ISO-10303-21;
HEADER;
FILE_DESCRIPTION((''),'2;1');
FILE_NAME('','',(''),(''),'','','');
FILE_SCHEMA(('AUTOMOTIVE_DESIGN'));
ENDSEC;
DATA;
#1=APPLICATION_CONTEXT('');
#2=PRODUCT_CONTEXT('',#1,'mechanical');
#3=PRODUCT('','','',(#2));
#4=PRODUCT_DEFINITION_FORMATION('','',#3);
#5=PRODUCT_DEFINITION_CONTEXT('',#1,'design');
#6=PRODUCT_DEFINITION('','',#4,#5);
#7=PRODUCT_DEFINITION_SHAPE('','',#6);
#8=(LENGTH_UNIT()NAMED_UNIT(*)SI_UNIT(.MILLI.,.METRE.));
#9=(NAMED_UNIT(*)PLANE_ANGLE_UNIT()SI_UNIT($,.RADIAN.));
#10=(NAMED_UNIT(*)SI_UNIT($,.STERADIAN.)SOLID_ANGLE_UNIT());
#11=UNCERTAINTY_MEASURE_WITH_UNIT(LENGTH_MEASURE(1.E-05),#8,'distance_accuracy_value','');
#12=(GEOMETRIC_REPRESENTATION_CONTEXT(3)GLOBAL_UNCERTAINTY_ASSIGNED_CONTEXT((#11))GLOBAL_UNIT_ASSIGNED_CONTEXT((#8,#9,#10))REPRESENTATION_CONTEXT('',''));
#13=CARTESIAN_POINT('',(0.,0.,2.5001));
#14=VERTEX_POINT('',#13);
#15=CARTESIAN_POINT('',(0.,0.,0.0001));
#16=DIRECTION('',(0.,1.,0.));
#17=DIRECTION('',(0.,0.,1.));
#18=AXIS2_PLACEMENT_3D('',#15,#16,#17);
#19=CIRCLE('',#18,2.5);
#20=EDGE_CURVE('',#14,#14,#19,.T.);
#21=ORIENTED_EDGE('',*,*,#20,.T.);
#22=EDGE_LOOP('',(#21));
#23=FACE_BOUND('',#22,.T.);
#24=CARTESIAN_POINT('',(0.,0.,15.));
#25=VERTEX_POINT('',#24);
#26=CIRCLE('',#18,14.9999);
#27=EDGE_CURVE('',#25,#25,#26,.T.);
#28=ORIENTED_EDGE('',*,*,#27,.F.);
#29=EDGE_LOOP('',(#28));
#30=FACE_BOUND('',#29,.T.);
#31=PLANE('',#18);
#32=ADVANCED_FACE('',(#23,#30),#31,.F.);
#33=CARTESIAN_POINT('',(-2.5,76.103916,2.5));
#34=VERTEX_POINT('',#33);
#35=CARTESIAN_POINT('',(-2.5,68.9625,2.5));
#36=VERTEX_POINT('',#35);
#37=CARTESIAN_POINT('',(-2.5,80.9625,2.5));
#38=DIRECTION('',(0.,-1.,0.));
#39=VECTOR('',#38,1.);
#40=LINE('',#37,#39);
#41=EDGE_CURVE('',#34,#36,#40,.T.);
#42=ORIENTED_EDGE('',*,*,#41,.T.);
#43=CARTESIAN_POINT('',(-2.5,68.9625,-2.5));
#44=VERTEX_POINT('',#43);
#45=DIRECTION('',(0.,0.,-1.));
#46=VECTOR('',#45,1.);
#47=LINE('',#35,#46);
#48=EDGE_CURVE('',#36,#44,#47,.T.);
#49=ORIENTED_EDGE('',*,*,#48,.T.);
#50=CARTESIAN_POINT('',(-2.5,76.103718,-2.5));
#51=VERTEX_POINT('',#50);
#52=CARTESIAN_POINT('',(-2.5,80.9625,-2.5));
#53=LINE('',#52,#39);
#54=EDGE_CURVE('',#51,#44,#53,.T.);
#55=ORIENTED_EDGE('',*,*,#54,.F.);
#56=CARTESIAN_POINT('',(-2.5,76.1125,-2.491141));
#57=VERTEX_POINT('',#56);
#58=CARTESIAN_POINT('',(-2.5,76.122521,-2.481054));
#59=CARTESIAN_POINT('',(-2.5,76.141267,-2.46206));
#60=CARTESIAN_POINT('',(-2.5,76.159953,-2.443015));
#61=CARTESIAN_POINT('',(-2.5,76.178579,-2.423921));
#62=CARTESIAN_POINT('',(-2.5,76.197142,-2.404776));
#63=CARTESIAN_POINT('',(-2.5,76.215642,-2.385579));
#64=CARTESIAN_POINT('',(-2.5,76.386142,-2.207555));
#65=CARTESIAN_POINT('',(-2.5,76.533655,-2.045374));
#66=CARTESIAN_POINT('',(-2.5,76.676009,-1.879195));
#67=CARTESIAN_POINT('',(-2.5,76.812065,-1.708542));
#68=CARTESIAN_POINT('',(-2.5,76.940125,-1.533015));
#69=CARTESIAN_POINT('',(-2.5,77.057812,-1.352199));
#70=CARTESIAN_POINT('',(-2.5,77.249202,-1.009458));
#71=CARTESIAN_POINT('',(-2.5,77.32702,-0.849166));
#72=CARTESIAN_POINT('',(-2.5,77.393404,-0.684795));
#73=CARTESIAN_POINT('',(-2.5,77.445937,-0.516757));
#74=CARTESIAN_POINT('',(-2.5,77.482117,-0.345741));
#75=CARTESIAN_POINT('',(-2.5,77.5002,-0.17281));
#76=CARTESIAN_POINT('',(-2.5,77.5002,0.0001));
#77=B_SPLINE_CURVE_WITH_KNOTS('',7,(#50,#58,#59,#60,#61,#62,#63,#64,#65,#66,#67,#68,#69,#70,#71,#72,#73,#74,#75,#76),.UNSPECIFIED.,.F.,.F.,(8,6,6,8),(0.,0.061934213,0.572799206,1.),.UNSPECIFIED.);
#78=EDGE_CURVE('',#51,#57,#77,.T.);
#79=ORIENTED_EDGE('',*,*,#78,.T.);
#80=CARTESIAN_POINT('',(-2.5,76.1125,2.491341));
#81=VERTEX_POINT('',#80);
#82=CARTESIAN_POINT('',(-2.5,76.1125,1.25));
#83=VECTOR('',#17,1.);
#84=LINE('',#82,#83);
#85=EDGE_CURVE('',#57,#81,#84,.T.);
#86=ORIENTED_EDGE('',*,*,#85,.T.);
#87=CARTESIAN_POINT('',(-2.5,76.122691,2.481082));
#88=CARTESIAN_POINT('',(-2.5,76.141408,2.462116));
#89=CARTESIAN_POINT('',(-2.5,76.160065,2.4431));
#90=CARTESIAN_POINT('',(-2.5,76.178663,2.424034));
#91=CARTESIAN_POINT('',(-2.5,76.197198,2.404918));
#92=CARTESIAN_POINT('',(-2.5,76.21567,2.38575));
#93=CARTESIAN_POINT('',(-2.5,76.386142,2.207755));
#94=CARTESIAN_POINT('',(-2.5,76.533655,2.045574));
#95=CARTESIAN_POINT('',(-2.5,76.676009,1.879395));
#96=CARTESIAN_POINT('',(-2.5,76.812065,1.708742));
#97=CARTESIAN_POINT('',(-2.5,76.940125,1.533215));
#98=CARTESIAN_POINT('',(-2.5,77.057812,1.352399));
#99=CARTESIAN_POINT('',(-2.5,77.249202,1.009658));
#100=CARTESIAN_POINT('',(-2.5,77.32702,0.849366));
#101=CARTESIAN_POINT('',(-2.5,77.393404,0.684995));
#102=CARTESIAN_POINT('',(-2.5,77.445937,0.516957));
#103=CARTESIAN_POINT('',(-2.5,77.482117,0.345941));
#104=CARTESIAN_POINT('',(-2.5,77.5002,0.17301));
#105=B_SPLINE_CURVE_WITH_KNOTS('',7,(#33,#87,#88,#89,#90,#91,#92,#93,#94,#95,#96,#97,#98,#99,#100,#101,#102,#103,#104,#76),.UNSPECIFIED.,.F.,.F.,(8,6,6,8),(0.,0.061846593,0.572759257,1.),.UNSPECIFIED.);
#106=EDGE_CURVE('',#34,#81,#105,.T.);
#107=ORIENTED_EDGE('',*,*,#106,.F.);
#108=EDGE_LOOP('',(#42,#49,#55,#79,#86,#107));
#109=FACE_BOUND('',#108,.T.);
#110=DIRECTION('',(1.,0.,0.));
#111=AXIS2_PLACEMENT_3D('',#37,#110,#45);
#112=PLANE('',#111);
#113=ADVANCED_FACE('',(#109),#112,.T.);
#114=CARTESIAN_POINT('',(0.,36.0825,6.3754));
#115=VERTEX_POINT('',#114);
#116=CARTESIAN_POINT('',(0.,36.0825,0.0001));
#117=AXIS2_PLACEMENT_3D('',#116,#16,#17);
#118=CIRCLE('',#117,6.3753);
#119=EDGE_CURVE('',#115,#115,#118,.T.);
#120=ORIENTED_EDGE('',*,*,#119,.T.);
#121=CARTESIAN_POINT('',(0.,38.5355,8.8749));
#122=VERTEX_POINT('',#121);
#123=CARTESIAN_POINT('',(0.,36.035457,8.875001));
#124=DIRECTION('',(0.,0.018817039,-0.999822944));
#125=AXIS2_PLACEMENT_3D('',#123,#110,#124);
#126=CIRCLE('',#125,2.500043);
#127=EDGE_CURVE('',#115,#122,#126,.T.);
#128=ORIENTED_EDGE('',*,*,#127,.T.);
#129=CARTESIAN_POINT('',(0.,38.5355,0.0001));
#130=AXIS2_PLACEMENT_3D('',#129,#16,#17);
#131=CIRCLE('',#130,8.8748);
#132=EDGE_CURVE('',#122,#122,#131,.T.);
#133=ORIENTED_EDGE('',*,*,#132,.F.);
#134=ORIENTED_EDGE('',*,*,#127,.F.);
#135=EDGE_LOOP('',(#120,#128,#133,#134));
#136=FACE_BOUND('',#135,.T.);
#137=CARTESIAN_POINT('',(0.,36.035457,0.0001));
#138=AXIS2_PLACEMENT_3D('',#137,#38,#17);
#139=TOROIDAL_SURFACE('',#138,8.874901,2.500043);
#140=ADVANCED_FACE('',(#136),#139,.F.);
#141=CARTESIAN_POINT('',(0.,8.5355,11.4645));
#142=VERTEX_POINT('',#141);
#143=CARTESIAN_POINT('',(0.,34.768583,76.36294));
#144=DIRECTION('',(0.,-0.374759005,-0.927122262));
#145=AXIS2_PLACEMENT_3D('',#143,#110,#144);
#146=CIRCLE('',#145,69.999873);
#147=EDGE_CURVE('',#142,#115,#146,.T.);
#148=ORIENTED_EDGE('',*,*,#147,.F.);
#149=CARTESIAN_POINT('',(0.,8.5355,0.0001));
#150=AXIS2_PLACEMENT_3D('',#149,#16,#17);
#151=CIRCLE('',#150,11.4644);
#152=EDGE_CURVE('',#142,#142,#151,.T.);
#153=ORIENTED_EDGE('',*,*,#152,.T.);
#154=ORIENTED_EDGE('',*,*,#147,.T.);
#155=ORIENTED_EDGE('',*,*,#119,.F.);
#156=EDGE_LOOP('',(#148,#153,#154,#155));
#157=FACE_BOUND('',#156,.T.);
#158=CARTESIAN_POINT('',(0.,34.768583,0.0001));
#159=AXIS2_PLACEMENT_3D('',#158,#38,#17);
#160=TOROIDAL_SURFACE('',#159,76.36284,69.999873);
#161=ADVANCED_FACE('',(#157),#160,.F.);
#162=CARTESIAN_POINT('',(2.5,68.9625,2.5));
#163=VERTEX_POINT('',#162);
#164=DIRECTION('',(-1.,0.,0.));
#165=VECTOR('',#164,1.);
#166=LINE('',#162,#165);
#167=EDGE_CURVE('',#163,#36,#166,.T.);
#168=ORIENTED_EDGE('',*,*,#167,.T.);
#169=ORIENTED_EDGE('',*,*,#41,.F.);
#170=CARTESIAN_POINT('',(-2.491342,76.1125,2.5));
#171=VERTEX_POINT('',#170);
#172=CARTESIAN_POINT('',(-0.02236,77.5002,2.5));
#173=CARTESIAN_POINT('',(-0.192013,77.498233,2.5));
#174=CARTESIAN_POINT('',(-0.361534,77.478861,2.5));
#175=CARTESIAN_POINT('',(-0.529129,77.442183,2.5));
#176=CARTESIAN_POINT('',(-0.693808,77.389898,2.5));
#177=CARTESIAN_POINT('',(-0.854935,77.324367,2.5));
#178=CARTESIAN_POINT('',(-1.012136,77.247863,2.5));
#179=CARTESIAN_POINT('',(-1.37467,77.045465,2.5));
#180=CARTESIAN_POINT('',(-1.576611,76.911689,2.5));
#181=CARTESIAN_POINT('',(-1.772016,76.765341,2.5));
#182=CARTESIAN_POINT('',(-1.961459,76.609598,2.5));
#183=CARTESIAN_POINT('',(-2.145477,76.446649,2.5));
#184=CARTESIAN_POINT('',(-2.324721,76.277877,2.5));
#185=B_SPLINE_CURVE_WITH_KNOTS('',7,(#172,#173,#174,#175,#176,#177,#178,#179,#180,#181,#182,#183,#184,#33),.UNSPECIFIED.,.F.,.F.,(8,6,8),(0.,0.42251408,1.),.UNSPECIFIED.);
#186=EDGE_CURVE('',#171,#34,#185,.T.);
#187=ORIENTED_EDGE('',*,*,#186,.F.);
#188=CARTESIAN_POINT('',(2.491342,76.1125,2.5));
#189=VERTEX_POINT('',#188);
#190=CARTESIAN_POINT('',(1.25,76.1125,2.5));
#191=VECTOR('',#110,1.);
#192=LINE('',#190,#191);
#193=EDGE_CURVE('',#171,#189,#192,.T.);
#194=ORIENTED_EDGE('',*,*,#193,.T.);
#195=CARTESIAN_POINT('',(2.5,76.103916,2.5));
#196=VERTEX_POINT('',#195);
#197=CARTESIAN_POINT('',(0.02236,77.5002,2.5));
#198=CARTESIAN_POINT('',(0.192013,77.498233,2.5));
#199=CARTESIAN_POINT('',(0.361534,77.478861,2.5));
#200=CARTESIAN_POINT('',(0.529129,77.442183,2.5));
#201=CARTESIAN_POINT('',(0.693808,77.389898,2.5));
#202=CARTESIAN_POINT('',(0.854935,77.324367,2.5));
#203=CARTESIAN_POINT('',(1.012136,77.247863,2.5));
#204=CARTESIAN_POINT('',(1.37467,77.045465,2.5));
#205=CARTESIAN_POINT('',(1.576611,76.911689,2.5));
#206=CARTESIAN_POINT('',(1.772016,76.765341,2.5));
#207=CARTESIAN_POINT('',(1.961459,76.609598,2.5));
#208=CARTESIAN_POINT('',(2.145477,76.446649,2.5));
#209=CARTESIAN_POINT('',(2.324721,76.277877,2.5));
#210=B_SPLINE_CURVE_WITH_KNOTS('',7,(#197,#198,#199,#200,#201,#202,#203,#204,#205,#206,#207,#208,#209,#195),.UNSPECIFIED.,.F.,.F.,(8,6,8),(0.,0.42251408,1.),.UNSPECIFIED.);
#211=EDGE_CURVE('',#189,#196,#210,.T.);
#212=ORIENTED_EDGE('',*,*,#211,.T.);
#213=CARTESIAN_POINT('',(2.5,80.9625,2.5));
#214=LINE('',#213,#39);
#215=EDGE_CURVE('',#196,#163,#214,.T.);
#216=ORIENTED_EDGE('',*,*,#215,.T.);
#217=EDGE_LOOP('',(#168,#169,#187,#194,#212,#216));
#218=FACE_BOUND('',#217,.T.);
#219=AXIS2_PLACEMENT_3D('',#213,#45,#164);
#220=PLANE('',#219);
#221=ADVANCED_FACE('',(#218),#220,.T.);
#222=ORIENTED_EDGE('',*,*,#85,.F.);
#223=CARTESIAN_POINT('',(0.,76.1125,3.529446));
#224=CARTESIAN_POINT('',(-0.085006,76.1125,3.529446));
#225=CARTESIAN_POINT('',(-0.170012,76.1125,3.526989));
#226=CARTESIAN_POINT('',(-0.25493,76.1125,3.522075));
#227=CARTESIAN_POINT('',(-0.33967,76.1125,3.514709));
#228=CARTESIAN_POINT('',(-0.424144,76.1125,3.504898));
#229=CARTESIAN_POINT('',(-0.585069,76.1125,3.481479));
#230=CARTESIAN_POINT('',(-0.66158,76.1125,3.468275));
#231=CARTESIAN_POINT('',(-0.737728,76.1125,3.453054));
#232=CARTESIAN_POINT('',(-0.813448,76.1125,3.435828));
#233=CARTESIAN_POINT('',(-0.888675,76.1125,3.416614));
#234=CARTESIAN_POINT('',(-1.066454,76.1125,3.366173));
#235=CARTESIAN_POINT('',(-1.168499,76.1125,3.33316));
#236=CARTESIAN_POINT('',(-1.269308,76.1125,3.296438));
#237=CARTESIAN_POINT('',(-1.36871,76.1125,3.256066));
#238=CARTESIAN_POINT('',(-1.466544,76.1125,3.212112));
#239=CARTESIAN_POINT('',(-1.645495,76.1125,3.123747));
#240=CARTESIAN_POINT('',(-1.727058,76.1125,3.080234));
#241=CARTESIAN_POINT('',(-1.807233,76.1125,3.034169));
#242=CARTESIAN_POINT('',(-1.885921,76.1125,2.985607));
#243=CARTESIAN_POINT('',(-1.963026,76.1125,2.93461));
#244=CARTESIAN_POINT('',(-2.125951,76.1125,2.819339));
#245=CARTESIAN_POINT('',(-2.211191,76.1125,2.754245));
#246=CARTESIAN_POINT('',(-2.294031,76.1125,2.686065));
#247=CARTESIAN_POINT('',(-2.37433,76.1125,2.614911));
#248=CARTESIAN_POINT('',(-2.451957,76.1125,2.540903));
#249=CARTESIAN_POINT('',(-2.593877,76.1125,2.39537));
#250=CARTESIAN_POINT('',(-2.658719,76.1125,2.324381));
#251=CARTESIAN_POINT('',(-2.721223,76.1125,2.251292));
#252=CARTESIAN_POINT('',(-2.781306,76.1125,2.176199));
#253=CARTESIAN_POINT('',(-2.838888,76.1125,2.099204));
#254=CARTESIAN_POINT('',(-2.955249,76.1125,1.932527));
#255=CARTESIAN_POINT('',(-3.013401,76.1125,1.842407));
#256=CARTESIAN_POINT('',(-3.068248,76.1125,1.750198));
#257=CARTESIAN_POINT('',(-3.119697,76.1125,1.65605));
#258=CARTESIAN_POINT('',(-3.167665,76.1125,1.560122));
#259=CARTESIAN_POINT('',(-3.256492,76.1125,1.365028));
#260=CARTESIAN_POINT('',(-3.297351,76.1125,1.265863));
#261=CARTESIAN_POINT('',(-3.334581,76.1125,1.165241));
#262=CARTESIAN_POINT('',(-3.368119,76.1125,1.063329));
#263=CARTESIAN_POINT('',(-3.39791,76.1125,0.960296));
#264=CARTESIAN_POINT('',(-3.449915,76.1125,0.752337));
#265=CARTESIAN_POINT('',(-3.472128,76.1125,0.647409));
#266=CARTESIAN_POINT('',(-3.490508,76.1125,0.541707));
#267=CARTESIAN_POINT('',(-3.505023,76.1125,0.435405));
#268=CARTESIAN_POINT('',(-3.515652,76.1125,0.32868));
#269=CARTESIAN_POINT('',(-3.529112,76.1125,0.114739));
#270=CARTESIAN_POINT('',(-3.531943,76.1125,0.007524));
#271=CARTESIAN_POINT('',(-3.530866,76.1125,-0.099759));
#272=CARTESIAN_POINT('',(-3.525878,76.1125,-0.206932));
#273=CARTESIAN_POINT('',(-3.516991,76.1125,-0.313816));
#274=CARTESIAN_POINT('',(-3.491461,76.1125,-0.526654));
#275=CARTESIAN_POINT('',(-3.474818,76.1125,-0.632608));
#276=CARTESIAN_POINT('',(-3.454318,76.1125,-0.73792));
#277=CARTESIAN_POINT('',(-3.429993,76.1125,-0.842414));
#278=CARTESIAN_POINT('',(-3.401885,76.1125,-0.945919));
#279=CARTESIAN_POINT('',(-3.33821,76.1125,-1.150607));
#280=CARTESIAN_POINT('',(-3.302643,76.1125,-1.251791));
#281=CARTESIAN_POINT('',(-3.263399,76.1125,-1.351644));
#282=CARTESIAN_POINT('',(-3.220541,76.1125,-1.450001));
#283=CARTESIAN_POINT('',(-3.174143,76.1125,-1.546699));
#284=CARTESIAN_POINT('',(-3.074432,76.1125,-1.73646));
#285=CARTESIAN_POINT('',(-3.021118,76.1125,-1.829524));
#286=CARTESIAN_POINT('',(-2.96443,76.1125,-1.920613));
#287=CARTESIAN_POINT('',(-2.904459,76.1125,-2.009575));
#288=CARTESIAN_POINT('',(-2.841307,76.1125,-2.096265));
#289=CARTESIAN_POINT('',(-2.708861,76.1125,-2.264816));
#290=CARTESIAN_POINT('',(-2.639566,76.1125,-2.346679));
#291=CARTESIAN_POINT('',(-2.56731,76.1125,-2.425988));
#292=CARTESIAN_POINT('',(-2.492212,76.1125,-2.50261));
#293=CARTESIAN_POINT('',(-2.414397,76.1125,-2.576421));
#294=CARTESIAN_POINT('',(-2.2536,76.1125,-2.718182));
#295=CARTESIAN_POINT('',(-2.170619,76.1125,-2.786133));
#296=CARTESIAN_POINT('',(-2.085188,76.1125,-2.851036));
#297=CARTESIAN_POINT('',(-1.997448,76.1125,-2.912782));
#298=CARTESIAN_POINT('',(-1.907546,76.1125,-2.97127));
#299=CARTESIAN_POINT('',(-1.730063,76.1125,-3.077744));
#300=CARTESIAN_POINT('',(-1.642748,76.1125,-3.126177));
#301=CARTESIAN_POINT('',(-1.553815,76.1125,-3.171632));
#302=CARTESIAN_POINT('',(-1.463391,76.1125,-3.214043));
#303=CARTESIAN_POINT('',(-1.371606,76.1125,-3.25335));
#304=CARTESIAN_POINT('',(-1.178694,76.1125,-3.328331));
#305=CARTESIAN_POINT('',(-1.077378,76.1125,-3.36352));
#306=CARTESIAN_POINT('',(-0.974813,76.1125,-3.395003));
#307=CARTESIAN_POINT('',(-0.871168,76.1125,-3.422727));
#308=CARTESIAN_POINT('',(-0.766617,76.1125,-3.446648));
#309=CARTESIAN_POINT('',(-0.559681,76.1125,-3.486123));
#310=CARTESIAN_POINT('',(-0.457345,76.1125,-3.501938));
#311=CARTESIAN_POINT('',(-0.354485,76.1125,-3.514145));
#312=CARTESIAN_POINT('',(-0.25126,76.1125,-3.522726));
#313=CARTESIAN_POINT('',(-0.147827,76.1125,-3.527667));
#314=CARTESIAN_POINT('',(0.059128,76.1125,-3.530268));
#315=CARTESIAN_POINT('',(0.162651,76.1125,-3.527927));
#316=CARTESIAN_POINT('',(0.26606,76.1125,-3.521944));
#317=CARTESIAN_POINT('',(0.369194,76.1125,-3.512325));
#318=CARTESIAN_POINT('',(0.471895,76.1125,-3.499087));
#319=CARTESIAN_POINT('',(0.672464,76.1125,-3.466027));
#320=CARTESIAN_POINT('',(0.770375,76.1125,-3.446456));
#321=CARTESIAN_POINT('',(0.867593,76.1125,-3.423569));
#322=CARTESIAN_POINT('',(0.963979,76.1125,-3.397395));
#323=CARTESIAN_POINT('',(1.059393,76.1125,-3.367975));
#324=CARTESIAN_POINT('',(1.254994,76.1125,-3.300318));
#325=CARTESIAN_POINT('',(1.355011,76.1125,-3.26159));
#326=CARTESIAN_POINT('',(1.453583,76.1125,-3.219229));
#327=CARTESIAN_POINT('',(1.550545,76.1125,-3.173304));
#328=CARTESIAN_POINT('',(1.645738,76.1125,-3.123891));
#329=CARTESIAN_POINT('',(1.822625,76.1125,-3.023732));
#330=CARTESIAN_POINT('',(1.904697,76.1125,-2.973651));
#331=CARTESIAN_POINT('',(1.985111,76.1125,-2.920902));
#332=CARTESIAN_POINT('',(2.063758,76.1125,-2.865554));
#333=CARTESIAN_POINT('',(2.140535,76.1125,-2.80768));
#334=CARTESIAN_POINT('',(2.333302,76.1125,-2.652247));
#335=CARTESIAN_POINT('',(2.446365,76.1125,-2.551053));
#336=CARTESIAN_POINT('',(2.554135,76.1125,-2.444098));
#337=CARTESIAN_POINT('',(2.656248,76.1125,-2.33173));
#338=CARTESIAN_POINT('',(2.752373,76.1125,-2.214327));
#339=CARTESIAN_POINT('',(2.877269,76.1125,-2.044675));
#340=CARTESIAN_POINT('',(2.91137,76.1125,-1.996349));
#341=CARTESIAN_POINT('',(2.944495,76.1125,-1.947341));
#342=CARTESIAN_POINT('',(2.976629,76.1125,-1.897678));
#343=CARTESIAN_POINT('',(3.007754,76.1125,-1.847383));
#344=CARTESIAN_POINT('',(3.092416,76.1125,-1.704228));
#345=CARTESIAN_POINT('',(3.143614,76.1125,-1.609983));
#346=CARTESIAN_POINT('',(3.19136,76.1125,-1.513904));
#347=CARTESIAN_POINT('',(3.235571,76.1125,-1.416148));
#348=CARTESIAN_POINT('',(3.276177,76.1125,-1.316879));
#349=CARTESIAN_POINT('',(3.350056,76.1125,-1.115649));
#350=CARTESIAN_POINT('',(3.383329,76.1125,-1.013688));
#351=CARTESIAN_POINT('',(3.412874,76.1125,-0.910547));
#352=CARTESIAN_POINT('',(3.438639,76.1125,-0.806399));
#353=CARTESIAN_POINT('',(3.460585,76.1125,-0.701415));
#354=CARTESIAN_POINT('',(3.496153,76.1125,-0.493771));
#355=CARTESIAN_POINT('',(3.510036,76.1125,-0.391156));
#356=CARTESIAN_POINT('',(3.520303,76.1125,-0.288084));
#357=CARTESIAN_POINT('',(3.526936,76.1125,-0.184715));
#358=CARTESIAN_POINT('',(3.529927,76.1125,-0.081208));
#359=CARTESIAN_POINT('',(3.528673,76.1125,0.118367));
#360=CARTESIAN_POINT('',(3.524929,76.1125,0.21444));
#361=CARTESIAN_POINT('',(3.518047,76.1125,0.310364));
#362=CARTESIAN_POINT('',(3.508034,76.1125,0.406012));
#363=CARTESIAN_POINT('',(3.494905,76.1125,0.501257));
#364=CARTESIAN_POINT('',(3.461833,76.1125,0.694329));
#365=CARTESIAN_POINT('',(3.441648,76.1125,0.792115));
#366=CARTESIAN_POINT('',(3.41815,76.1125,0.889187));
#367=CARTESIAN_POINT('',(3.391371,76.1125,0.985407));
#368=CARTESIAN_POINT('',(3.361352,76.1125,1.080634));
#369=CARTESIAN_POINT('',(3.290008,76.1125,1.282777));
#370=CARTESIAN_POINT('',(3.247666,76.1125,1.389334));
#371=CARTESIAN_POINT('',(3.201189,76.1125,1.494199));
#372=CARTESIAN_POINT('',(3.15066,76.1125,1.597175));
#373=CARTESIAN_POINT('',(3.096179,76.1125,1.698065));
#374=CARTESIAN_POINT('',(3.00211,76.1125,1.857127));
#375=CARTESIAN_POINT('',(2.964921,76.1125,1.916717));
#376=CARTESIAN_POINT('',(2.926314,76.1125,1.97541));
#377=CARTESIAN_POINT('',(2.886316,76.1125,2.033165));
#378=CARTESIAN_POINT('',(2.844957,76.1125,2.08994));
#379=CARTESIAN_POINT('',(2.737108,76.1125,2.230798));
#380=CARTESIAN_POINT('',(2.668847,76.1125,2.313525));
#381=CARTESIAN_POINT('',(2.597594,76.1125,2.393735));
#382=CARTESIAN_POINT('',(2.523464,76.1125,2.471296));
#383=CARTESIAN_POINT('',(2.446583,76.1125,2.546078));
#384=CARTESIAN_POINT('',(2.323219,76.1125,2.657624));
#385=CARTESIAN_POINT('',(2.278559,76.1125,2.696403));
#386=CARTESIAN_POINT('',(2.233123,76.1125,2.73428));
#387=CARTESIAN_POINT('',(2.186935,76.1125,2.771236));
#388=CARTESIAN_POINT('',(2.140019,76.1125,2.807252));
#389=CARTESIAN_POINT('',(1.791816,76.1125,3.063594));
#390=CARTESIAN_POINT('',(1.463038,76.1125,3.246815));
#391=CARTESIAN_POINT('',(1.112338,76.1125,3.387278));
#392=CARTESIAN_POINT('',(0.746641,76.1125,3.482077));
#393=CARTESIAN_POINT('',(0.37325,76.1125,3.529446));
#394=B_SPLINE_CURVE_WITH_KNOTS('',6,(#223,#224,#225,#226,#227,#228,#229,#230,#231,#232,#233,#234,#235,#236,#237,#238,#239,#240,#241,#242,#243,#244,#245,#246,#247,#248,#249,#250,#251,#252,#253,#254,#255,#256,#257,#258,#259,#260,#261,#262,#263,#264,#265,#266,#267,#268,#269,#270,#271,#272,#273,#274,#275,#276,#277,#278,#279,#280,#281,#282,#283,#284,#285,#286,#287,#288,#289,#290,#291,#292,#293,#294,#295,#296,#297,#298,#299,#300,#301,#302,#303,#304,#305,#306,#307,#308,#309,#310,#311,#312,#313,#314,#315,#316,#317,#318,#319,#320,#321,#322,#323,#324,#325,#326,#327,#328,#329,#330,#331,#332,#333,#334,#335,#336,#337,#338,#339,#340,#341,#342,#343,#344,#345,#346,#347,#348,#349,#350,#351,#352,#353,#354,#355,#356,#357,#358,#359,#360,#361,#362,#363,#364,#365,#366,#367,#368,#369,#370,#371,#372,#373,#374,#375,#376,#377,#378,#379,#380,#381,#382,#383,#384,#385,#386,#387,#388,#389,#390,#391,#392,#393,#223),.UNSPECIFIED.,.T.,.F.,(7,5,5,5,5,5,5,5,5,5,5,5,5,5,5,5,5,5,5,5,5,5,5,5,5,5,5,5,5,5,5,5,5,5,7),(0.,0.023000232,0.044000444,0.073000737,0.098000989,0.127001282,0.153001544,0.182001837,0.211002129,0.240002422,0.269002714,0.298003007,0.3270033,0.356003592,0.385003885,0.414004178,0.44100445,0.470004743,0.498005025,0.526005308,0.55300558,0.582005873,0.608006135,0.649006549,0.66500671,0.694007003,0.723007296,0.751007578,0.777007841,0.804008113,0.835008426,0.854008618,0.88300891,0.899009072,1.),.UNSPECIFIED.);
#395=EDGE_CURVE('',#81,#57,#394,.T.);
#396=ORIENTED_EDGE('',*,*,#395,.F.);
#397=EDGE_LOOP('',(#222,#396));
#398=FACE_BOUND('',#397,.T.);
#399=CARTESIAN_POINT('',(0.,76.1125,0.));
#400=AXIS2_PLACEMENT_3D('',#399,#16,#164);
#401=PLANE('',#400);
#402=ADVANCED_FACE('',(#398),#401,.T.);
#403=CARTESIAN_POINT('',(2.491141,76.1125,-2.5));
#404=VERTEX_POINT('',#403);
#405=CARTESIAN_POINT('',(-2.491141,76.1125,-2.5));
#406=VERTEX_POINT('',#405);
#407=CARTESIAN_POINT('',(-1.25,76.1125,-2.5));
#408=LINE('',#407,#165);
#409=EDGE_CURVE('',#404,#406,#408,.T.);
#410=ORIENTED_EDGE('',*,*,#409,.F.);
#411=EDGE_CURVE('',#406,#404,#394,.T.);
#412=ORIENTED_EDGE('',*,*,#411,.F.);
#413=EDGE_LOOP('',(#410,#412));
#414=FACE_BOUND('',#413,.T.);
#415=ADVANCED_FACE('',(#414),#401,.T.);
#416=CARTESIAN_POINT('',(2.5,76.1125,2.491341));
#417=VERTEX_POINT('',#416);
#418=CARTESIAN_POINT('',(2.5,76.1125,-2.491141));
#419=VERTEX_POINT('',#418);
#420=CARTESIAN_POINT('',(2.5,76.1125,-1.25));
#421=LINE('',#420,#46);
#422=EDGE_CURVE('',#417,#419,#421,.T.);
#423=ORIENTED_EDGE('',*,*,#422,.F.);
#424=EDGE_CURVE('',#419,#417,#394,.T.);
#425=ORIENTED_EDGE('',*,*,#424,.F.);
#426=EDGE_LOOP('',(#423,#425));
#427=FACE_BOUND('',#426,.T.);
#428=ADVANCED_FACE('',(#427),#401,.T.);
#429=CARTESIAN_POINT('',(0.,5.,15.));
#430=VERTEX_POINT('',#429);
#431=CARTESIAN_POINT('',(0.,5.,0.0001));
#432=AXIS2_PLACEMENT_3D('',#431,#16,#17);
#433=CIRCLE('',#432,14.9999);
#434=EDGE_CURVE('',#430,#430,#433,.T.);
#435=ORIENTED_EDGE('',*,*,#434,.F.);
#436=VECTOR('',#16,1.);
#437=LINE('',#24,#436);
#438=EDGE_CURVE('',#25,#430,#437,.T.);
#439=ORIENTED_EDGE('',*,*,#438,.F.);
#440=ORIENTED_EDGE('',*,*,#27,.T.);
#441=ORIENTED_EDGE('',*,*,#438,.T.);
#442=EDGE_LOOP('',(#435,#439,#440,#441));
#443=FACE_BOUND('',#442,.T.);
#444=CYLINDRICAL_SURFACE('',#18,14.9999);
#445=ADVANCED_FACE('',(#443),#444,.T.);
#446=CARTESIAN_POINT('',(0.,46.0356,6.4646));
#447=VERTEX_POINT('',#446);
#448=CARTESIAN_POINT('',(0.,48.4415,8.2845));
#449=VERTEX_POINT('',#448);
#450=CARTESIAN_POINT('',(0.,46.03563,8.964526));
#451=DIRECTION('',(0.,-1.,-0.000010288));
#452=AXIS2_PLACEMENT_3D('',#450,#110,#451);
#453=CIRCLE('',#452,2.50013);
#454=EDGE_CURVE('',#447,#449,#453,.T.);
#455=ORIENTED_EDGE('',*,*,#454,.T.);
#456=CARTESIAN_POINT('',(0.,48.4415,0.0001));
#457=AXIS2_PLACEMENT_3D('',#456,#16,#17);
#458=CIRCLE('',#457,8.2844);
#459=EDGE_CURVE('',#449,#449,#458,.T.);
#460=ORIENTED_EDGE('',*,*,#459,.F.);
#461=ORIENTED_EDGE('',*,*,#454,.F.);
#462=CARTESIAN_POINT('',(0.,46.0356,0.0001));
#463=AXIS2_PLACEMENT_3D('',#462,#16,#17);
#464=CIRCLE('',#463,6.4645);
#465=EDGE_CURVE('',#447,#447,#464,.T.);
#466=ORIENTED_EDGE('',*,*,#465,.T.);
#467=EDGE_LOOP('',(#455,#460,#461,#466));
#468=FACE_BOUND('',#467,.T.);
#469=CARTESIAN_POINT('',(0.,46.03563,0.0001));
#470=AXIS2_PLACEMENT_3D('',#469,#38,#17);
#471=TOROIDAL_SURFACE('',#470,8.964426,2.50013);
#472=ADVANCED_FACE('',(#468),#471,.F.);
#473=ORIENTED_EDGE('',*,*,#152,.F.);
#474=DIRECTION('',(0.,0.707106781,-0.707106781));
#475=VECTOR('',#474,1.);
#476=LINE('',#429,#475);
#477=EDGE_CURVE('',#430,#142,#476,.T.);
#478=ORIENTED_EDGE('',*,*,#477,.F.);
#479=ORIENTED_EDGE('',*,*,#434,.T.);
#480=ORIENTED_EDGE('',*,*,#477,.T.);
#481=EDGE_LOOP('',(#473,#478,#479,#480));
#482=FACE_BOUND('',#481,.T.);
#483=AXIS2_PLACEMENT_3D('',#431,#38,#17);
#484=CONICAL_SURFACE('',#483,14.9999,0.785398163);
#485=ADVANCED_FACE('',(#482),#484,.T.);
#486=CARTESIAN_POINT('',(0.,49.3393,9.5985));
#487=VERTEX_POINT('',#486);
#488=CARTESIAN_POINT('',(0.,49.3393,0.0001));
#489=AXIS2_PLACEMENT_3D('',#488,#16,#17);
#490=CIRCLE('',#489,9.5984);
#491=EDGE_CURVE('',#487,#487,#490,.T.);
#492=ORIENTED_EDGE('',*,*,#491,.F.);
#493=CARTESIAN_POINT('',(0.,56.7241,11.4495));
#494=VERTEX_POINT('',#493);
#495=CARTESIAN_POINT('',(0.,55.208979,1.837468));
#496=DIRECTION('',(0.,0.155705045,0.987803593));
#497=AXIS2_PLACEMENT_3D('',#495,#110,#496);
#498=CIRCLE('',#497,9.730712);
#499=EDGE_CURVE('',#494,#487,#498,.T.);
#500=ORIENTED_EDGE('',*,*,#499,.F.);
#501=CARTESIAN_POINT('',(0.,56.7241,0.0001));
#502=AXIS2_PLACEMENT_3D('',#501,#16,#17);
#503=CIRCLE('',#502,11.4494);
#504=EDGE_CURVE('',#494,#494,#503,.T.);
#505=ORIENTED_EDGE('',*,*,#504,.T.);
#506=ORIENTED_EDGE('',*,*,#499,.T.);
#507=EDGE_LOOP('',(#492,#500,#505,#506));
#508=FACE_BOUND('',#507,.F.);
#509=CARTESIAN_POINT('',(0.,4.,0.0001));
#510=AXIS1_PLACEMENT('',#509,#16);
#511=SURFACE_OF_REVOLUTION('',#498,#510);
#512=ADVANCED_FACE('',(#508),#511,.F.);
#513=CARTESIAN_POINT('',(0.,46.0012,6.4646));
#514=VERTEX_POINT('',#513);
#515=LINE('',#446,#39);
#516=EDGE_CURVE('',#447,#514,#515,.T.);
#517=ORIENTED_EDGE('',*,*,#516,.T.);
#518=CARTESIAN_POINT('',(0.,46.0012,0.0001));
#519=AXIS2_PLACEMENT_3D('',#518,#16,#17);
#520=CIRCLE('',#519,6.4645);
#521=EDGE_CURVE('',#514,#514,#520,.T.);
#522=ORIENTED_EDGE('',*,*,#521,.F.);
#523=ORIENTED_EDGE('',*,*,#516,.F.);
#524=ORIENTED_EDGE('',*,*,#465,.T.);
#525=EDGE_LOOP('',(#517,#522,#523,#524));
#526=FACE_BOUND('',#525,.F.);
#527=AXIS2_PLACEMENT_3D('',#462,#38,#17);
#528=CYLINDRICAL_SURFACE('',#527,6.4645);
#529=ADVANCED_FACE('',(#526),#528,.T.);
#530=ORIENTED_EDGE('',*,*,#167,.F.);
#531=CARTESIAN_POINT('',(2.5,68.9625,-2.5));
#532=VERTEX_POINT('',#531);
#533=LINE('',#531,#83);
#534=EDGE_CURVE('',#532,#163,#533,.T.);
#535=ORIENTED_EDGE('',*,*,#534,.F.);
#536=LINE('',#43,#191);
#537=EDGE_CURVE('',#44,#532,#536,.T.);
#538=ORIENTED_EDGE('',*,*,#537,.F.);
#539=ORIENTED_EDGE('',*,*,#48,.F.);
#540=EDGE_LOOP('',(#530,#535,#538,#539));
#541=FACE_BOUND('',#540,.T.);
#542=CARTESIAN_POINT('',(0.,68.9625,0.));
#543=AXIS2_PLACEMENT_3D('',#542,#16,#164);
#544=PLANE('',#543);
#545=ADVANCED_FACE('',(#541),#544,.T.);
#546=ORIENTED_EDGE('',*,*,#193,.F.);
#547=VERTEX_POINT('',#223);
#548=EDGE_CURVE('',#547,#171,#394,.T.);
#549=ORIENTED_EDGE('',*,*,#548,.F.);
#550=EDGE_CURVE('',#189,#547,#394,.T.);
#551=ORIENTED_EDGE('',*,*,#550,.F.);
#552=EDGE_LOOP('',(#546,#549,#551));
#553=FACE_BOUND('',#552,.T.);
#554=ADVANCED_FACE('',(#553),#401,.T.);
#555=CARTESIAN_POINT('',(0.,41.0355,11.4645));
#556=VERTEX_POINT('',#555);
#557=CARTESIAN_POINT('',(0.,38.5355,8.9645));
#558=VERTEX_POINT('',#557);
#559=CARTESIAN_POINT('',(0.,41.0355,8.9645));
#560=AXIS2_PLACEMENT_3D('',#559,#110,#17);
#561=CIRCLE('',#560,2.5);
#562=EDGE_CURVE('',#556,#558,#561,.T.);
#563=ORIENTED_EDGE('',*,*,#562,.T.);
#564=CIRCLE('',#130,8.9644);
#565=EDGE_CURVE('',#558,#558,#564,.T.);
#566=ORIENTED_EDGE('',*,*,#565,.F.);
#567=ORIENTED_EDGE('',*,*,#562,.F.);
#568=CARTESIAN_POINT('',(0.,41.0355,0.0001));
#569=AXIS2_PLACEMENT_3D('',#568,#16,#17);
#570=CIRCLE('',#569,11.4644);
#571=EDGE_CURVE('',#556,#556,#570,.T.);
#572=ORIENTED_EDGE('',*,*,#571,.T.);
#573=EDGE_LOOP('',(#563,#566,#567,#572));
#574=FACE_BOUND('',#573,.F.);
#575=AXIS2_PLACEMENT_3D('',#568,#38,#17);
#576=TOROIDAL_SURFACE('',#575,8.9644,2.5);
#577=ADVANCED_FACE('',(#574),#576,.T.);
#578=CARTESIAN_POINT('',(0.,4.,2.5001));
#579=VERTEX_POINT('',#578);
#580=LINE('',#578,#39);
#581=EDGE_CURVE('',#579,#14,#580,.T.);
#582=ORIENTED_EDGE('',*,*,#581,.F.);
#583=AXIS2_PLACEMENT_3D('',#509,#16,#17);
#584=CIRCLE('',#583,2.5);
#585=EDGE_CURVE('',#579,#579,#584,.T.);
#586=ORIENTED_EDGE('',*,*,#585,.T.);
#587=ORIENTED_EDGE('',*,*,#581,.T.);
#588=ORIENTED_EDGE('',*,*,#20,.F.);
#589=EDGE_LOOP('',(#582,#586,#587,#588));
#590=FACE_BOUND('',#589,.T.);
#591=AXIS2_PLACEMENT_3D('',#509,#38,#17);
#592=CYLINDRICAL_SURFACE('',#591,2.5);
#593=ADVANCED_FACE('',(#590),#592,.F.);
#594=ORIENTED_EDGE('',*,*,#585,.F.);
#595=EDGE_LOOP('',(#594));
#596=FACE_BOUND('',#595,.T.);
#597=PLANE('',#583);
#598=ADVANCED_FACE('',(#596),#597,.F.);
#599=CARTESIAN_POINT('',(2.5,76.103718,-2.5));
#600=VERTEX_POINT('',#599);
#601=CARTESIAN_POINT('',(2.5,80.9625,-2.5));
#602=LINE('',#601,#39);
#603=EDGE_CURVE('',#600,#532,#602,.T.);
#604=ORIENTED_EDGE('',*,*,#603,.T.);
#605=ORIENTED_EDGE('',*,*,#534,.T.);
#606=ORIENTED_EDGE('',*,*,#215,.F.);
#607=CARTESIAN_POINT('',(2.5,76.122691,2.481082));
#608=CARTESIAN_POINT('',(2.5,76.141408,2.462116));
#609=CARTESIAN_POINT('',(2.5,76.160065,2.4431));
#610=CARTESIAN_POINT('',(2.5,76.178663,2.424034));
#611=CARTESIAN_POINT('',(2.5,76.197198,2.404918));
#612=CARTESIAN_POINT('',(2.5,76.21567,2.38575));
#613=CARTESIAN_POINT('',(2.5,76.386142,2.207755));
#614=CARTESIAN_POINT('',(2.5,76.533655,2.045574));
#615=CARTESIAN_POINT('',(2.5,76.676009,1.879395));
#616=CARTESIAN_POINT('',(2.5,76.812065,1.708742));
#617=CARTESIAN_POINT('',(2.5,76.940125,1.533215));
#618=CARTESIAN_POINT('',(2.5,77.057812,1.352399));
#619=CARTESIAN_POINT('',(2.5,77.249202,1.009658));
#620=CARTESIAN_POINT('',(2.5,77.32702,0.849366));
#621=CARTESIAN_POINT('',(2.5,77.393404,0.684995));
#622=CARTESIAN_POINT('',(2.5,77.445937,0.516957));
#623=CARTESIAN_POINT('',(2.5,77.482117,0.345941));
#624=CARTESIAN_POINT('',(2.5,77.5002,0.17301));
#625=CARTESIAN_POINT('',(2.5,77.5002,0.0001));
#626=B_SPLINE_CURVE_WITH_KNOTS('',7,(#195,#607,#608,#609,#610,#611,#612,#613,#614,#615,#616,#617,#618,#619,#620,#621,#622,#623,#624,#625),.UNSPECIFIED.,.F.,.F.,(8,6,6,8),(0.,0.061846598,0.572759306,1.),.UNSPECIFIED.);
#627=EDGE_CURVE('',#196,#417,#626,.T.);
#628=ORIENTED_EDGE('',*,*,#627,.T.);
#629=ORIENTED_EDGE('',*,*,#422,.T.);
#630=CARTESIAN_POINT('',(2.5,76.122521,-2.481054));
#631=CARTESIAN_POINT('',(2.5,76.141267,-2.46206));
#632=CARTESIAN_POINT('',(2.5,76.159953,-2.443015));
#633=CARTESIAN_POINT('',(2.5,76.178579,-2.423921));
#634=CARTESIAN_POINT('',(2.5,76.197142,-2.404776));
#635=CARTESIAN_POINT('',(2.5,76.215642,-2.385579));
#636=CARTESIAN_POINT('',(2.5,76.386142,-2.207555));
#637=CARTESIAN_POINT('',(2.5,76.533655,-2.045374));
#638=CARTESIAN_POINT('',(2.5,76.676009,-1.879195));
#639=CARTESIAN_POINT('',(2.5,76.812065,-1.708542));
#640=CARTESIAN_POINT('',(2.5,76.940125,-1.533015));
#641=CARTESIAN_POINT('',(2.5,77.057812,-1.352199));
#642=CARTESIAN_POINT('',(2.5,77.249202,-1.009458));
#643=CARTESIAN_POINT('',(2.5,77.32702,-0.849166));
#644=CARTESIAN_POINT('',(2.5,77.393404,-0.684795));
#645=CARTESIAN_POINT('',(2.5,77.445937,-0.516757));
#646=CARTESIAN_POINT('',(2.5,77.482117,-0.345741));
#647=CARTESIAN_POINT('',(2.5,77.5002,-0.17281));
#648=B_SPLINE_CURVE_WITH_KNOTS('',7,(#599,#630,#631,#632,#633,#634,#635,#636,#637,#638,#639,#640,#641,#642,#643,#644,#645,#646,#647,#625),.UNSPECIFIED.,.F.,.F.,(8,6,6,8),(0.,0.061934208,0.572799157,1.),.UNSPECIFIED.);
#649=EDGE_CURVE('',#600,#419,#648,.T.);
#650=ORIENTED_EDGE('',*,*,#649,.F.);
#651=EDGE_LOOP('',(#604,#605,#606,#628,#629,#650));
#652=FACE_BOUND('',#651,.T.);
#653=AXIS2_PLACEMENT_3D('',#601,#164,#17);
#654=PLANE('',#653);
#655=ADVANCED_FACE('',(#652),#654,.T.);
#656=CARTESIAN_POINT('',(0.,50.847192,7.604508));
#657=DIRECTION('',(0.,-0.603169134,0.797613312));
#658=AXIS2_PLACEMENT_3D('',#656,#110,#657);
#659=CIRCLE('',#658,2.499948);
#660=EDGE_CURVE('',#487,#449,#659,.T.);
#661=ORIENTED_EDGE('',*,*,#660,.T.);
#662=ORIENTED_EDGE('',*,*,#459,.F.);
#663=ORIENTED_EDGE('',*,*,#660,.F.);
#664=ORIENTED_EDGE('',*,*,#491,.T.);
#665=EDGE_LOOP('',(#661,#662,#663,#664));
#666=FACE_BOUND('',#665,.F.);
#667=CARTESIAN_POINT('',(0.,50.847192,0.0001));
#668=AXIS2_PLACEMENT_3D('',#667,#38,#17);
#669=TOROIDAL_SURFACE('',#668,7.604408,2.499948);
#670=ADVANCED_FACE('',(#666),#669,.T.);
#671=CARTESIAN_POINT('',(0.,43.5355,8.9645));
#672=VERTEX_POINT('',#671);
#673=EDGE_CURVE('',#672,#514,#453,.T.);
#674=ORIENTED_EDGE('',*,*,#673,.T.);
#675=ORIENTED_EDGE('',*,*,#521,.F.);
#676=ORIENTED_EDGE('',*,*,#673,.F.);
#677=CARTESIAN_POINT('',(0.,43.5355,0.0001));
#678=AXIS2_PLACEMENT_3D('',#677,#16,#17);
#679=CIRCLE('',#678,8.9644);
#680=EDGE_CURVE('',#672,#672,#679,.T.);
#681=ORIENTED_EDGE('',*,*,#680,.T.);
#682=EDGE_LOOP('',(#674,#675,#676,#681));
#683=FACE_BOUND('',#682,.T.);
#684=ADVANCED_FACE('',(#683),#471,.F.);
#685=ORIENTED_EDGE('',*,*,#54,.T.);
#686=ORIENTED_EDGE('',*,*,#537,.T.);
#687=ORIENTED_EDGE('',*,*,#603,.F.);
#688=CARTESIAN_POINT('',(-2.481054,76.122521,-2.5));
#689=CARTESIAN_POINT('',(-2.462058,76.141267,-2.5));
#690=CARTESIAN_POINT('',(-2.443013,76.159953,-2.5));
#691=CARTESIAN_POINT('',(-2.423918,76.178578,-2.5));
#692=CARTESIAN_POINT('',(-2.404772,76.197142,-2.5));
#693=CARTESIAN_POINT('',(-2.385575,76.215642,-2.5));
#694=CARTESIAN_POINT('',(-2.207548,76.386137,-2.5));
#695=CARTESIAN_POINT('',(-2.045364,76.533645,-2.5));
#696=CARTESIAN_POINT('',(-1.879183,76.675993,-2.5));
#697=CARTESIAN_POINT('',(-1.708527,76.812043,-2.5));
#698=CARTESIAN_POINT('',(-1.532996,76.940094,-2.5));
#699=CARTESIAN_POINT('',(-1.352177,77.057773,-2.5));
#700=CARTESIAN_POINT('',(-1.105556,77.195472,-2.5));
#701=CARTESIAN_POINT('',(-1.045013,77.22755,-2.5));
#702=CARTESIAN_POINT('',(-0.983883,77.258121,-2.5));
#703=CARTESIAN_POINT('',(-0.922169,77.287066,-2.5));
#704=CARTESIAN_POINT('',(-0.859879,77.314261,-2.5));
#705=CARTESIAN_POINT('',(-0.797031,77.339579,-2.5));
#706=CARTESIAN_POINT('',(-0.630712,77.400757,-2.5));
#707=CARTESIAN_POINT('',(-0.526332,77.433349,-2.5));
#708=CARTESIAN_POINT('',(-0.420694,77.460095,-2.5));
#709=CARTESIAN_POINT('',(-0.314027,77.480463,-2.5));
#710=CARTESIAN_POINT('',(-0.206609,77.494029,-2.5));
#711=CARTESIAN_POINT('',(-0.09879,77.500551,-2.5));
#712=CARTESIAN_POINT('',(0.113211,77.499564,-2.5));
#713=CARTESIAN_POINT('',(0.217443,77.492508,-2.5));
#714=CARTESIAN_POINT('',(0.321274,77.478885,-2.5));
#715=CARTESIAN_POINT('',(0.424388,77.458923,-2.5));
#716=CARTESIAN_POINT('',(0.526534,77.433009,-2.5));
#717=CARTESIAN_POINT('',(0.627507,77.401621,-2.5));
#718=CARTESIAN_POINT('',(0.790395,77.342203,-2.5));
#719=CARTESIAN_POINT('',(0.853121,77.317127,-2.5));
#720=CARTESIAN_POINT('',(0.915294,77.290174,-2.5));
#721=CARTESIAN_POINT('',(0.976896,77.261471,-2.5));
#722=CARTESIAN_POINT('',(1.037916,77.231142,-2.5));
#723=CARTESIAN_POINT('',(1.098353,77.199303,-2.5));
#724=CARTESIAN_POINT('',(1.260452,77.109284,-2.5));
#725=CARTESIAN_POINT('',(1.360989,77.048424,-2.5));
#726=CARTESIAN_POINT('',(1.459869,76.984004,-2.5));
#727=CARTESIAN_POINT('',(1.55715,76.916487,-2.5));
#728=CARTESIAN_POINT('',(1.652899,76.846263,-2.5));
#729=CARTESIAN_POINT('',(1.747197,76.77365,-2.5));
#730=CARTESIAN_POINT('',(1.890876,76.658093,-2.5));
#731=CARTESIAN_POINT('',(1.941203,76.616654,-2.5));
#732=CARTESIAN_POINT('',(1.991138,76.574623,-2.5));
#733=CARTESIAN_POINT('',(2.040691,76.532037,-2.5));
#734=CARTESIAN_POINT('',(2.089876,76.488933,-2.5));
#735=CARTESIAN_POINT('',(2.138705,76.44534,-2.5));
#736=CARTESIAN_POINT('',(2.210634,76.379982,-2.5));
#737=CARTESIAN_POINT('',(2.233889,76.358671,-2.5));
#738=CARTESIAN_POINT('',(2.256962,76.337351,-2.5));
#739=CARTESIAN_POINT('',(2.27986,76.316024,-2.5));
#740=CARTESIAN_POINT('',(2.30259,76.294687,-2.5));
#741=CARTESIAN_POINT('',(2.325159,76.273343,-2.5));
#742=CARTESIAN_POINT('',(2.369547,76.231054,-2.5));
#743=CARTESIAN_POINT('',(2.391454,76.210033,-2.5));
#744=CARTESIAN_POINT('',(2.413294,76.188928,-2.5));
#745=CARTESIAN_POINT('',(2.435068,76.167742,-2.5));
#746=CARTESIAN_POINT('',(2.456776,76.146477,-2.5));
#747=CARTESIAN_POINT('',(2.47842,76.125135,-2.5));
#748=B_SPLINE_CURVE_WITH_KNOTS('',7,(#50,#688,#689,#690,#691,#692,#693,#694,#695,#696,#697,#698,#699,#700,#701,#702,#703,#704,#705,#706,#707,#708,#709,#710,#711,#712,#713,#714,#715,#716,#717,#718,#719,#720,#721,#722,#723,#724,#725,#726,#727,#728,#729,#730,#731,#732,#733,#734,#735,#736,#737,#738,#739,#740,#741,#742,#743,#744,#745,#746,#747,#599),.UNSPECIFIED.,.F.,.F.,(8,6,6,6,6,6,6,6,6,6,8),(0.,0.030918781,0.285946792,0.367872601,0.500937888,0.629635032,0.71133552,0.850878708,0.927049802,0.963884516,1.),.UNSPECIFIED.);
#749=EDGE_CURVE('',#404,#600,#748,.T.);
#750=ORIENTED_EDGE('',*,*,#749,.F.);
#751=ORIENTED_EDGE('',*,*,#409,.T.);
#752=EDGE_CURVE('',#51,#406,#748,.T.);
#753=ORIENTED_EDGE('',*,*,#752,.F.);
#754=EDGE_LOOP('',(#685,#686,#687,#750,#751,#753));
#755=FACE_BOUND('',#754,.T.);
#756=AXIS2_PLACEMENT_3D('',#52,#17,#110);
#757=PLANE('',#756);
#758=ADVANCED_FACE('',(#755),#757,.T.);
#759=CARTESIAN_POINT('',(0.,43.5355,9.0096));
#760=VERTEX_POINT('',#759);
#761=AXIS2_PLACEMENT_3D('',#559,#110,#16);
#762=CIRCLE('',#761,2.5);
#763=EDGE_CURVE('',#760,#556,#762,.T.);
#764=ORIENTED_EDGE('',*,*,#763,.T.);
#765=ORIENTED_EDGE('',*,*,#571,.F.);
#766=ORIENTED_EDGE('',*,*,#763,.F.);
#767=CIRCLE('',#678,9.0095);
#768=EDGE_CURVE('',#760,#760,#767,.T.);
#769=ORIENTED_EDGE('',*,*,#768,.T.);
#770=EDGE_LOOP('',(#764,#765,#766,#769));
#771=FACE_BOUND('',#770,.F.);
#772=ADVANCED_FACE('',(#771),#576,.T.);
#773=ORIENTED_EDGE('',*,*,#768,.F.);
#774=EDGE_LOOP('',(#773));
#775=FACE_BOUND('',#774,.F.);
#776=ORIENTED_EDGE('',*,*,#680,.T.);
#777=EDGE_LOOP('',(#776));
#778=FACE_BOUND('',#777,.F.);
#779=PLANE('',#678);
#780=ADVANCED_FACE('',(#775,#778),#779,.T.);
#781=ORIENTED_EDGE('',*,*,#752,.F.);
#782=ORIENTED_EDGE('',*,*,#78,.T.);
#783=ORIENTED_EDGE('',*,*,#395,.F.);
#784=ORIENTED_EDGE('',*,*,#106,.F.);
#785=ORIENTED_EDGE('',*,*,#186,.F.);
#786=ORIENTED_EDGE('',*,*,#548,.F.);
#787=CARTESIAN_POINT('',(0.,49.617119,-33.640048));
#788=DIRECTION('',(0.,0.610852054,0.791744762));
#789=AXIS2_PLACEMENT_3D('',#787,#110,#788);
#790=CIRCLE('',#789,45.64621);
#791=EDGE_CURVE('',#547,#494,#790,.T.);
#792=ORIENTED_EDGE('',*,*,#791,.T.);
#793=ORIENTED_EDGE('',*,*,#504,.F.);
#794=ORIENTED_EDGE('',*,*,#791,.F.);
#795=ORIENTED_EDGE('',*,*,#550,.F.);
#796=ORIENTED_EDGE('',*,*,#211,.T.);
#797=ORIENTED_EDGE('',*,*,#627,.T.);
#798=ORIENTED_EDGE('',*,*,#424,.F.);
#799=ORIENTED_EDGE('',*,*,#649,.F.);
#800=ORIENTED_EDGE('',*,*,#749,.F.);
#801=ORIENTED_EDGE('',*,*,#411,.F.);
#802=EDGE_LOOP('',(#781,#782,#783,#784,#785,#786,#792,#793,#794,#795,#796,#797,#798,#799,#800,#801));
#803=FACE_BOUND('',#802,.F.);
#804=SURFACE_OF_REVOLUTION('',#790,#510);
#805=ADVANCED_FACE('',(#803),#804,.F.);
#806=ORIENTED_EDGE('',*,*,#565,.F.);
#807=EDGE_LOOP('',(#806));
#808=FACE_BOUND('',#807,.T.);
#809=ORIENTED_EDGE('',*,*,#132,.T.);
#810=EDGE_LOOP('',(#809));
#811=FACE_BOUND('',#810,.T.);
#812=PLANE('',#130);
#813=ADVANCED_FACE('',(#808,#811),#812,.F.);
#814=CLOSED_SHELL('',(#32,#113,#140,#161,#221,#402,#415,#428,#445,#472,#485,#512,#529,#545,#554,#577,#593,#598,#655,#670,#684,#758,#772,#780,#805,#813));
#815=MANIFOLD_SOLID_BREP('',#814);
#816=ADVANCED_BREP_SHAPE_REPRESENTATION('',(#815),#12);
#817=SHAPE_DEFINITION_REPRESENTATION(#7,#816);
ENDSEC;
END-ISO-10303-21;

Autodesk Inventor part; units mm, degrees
ref_plane "YZ Plane" through (0, 0, 0) normal (1, 0, 0) x (0, 1, 0)
ref_plane "XY Plane" through (0, 0, 0) normal (0, 0, 1) x (1, 0, 0)
sketch "Sketch1" plane through (0, 0, 0) normal (1, 0, 0) x (0, 1, 0)
  line L0 (4, 0.0001) -> (4, 2.5001)
  line L1 (4, 2.5001) -> (0, 2.5001)
  line L2 (0, 2.5001) -> (0, 15)
  line L3 (0, 15) -> (5, 15)
  line L4 (5, 15) -> (8.5355, 11.4645)
  line L5 (38.5355, 8.8749) -> (38.5355, 8.9645)
  line L6 (41.0355, 11.4645) -> (41.0355, 11.4645)
  line L7 (43.5355, 8.9645) -> (43.5355, 9.0096)
  line L8 (46.0356, 6.4646) -> (46.0012, 6.4646)
  arc A0 (43.5355, 8.9645) -> (41.0355, 11.4645) centre (41.0355, 8.9645) ccw
  arc A1 (41.0355, 11.4645) -> (38.5355, 8.9645) centre (41.0355, 8.9645) ccw
  arc A2 (8.5355, 11.4645) -> (36.0825, 6.3754) centre (34.7686, 76.363) ccw
  line L9 (4, 0.0001) -> (80.0002, 0.0001)
  line L10 (46.0356, 6.4646) -> (46.0012, 6.4646)
  line L11 (80.0002, 0.0001) -> (80.0002, 0.0001)
  line L12 (77.5002, 2.5001) -> (77.5002, 2.5001)
  arc A3 (77.5002, 2.5001) -> (56.7241, 11.4495) centre (49.6175, -33.6394) ccw
  arc A4 (43.5355, 8.9645) -> (48.4415, 8.2845) centre (46.0356, 8.9645) ccw
  arc A5 (56.7241, 11.4495) -> (49.3393, 9.5985) centre (55.209, 1.837) ccw
  line L13 (80.0002, 0.0001) -> (80.0002, 0.0001)
  line L14 (77.5002, 2.5001) -> (77.5002, 2.5001)
  arc A6 (80.0002, 0.0001) -> (77.5002, 2.5001) centre (77.5002, 0.0001) ccw
  arc A7 (49.3393, 9.5985) -> (48.4415, 8.2845) centre (50.8472, 7.6045) ccw
  arc A8 (36.0825, 6.3754) -> (38.5355, 8.8749) centre (36.0355, 8.8749) ccw
  point P0 (0, 0)
  point P1 (38.5355, 6.4645)
  point P2 (38.5355, 11.4645)
  point P3 (43.5355, 11.4645)
  point P4 (43.5355, 6.4646)
  point P5 (80.0002, 2.5001)
  point P6 (77.5002, 2.5001)
  dimension "d0" = 4
  dimension "d1" = 2.5
  dimension "d2" = 15
  dimension "d3" = 5
  dimension "d4" = 5
  dimension "d5" = 135
  dimension "d25" = 5
  dimension "d26" = 5
  dimension "d36" = 70
  dimension "d47" = 2.5
  dimension "d48" = 2.5
  dimension "d49" = 2.5
  dimension "d51" = 2.5
revolve "Revolution1" add sketch "Sketch1" angle 360 about axis through (0, 4, 0.0001) along (0, 1, 0)
ref_plane "Work Plane1" through (0, 80.9625, 0) normal (0, 1, 0) x (-1, 0, 0)
sketch "Sketch2" plane through (0, 80.9625, 0) normal (0, 1, 0) x (-1, 0, 0)
  line L0 (2.5, -2.5) -> (-2.5, -2.5)
  line L1 (-2.5, -2.5) -> (-2.5, 2.5)
  line L2 (-2.5, 2.5) -> (2.5, 2.5)
  line L3 (2.5, 2.5) -> (2.5, -2.5)
  point P0 (0, 0)
  dimension "d53" = 5
  dimension "d54" = 2.5
  dimension "d55" = 2.5
  dimension "d56" = 5
extrude "Extrusion1" cut sketch "Sketch2" against normal blind 12
sketch "Sketch3" plane through (0, 80.9625, 0) normal (0, 1, 0) x (-1, 0, 0)
  circle A0 centre (0, 0.0001) radius 2.5 projected
  circle A1 centre (0, 0.0001) radius 3.5355
  point P0 (0, 0)
extrude "Extrusion2" cut sketch "Sketch3" against normal blind 4.85 contours A0 | A1
properties part number "PawnUntagged"
